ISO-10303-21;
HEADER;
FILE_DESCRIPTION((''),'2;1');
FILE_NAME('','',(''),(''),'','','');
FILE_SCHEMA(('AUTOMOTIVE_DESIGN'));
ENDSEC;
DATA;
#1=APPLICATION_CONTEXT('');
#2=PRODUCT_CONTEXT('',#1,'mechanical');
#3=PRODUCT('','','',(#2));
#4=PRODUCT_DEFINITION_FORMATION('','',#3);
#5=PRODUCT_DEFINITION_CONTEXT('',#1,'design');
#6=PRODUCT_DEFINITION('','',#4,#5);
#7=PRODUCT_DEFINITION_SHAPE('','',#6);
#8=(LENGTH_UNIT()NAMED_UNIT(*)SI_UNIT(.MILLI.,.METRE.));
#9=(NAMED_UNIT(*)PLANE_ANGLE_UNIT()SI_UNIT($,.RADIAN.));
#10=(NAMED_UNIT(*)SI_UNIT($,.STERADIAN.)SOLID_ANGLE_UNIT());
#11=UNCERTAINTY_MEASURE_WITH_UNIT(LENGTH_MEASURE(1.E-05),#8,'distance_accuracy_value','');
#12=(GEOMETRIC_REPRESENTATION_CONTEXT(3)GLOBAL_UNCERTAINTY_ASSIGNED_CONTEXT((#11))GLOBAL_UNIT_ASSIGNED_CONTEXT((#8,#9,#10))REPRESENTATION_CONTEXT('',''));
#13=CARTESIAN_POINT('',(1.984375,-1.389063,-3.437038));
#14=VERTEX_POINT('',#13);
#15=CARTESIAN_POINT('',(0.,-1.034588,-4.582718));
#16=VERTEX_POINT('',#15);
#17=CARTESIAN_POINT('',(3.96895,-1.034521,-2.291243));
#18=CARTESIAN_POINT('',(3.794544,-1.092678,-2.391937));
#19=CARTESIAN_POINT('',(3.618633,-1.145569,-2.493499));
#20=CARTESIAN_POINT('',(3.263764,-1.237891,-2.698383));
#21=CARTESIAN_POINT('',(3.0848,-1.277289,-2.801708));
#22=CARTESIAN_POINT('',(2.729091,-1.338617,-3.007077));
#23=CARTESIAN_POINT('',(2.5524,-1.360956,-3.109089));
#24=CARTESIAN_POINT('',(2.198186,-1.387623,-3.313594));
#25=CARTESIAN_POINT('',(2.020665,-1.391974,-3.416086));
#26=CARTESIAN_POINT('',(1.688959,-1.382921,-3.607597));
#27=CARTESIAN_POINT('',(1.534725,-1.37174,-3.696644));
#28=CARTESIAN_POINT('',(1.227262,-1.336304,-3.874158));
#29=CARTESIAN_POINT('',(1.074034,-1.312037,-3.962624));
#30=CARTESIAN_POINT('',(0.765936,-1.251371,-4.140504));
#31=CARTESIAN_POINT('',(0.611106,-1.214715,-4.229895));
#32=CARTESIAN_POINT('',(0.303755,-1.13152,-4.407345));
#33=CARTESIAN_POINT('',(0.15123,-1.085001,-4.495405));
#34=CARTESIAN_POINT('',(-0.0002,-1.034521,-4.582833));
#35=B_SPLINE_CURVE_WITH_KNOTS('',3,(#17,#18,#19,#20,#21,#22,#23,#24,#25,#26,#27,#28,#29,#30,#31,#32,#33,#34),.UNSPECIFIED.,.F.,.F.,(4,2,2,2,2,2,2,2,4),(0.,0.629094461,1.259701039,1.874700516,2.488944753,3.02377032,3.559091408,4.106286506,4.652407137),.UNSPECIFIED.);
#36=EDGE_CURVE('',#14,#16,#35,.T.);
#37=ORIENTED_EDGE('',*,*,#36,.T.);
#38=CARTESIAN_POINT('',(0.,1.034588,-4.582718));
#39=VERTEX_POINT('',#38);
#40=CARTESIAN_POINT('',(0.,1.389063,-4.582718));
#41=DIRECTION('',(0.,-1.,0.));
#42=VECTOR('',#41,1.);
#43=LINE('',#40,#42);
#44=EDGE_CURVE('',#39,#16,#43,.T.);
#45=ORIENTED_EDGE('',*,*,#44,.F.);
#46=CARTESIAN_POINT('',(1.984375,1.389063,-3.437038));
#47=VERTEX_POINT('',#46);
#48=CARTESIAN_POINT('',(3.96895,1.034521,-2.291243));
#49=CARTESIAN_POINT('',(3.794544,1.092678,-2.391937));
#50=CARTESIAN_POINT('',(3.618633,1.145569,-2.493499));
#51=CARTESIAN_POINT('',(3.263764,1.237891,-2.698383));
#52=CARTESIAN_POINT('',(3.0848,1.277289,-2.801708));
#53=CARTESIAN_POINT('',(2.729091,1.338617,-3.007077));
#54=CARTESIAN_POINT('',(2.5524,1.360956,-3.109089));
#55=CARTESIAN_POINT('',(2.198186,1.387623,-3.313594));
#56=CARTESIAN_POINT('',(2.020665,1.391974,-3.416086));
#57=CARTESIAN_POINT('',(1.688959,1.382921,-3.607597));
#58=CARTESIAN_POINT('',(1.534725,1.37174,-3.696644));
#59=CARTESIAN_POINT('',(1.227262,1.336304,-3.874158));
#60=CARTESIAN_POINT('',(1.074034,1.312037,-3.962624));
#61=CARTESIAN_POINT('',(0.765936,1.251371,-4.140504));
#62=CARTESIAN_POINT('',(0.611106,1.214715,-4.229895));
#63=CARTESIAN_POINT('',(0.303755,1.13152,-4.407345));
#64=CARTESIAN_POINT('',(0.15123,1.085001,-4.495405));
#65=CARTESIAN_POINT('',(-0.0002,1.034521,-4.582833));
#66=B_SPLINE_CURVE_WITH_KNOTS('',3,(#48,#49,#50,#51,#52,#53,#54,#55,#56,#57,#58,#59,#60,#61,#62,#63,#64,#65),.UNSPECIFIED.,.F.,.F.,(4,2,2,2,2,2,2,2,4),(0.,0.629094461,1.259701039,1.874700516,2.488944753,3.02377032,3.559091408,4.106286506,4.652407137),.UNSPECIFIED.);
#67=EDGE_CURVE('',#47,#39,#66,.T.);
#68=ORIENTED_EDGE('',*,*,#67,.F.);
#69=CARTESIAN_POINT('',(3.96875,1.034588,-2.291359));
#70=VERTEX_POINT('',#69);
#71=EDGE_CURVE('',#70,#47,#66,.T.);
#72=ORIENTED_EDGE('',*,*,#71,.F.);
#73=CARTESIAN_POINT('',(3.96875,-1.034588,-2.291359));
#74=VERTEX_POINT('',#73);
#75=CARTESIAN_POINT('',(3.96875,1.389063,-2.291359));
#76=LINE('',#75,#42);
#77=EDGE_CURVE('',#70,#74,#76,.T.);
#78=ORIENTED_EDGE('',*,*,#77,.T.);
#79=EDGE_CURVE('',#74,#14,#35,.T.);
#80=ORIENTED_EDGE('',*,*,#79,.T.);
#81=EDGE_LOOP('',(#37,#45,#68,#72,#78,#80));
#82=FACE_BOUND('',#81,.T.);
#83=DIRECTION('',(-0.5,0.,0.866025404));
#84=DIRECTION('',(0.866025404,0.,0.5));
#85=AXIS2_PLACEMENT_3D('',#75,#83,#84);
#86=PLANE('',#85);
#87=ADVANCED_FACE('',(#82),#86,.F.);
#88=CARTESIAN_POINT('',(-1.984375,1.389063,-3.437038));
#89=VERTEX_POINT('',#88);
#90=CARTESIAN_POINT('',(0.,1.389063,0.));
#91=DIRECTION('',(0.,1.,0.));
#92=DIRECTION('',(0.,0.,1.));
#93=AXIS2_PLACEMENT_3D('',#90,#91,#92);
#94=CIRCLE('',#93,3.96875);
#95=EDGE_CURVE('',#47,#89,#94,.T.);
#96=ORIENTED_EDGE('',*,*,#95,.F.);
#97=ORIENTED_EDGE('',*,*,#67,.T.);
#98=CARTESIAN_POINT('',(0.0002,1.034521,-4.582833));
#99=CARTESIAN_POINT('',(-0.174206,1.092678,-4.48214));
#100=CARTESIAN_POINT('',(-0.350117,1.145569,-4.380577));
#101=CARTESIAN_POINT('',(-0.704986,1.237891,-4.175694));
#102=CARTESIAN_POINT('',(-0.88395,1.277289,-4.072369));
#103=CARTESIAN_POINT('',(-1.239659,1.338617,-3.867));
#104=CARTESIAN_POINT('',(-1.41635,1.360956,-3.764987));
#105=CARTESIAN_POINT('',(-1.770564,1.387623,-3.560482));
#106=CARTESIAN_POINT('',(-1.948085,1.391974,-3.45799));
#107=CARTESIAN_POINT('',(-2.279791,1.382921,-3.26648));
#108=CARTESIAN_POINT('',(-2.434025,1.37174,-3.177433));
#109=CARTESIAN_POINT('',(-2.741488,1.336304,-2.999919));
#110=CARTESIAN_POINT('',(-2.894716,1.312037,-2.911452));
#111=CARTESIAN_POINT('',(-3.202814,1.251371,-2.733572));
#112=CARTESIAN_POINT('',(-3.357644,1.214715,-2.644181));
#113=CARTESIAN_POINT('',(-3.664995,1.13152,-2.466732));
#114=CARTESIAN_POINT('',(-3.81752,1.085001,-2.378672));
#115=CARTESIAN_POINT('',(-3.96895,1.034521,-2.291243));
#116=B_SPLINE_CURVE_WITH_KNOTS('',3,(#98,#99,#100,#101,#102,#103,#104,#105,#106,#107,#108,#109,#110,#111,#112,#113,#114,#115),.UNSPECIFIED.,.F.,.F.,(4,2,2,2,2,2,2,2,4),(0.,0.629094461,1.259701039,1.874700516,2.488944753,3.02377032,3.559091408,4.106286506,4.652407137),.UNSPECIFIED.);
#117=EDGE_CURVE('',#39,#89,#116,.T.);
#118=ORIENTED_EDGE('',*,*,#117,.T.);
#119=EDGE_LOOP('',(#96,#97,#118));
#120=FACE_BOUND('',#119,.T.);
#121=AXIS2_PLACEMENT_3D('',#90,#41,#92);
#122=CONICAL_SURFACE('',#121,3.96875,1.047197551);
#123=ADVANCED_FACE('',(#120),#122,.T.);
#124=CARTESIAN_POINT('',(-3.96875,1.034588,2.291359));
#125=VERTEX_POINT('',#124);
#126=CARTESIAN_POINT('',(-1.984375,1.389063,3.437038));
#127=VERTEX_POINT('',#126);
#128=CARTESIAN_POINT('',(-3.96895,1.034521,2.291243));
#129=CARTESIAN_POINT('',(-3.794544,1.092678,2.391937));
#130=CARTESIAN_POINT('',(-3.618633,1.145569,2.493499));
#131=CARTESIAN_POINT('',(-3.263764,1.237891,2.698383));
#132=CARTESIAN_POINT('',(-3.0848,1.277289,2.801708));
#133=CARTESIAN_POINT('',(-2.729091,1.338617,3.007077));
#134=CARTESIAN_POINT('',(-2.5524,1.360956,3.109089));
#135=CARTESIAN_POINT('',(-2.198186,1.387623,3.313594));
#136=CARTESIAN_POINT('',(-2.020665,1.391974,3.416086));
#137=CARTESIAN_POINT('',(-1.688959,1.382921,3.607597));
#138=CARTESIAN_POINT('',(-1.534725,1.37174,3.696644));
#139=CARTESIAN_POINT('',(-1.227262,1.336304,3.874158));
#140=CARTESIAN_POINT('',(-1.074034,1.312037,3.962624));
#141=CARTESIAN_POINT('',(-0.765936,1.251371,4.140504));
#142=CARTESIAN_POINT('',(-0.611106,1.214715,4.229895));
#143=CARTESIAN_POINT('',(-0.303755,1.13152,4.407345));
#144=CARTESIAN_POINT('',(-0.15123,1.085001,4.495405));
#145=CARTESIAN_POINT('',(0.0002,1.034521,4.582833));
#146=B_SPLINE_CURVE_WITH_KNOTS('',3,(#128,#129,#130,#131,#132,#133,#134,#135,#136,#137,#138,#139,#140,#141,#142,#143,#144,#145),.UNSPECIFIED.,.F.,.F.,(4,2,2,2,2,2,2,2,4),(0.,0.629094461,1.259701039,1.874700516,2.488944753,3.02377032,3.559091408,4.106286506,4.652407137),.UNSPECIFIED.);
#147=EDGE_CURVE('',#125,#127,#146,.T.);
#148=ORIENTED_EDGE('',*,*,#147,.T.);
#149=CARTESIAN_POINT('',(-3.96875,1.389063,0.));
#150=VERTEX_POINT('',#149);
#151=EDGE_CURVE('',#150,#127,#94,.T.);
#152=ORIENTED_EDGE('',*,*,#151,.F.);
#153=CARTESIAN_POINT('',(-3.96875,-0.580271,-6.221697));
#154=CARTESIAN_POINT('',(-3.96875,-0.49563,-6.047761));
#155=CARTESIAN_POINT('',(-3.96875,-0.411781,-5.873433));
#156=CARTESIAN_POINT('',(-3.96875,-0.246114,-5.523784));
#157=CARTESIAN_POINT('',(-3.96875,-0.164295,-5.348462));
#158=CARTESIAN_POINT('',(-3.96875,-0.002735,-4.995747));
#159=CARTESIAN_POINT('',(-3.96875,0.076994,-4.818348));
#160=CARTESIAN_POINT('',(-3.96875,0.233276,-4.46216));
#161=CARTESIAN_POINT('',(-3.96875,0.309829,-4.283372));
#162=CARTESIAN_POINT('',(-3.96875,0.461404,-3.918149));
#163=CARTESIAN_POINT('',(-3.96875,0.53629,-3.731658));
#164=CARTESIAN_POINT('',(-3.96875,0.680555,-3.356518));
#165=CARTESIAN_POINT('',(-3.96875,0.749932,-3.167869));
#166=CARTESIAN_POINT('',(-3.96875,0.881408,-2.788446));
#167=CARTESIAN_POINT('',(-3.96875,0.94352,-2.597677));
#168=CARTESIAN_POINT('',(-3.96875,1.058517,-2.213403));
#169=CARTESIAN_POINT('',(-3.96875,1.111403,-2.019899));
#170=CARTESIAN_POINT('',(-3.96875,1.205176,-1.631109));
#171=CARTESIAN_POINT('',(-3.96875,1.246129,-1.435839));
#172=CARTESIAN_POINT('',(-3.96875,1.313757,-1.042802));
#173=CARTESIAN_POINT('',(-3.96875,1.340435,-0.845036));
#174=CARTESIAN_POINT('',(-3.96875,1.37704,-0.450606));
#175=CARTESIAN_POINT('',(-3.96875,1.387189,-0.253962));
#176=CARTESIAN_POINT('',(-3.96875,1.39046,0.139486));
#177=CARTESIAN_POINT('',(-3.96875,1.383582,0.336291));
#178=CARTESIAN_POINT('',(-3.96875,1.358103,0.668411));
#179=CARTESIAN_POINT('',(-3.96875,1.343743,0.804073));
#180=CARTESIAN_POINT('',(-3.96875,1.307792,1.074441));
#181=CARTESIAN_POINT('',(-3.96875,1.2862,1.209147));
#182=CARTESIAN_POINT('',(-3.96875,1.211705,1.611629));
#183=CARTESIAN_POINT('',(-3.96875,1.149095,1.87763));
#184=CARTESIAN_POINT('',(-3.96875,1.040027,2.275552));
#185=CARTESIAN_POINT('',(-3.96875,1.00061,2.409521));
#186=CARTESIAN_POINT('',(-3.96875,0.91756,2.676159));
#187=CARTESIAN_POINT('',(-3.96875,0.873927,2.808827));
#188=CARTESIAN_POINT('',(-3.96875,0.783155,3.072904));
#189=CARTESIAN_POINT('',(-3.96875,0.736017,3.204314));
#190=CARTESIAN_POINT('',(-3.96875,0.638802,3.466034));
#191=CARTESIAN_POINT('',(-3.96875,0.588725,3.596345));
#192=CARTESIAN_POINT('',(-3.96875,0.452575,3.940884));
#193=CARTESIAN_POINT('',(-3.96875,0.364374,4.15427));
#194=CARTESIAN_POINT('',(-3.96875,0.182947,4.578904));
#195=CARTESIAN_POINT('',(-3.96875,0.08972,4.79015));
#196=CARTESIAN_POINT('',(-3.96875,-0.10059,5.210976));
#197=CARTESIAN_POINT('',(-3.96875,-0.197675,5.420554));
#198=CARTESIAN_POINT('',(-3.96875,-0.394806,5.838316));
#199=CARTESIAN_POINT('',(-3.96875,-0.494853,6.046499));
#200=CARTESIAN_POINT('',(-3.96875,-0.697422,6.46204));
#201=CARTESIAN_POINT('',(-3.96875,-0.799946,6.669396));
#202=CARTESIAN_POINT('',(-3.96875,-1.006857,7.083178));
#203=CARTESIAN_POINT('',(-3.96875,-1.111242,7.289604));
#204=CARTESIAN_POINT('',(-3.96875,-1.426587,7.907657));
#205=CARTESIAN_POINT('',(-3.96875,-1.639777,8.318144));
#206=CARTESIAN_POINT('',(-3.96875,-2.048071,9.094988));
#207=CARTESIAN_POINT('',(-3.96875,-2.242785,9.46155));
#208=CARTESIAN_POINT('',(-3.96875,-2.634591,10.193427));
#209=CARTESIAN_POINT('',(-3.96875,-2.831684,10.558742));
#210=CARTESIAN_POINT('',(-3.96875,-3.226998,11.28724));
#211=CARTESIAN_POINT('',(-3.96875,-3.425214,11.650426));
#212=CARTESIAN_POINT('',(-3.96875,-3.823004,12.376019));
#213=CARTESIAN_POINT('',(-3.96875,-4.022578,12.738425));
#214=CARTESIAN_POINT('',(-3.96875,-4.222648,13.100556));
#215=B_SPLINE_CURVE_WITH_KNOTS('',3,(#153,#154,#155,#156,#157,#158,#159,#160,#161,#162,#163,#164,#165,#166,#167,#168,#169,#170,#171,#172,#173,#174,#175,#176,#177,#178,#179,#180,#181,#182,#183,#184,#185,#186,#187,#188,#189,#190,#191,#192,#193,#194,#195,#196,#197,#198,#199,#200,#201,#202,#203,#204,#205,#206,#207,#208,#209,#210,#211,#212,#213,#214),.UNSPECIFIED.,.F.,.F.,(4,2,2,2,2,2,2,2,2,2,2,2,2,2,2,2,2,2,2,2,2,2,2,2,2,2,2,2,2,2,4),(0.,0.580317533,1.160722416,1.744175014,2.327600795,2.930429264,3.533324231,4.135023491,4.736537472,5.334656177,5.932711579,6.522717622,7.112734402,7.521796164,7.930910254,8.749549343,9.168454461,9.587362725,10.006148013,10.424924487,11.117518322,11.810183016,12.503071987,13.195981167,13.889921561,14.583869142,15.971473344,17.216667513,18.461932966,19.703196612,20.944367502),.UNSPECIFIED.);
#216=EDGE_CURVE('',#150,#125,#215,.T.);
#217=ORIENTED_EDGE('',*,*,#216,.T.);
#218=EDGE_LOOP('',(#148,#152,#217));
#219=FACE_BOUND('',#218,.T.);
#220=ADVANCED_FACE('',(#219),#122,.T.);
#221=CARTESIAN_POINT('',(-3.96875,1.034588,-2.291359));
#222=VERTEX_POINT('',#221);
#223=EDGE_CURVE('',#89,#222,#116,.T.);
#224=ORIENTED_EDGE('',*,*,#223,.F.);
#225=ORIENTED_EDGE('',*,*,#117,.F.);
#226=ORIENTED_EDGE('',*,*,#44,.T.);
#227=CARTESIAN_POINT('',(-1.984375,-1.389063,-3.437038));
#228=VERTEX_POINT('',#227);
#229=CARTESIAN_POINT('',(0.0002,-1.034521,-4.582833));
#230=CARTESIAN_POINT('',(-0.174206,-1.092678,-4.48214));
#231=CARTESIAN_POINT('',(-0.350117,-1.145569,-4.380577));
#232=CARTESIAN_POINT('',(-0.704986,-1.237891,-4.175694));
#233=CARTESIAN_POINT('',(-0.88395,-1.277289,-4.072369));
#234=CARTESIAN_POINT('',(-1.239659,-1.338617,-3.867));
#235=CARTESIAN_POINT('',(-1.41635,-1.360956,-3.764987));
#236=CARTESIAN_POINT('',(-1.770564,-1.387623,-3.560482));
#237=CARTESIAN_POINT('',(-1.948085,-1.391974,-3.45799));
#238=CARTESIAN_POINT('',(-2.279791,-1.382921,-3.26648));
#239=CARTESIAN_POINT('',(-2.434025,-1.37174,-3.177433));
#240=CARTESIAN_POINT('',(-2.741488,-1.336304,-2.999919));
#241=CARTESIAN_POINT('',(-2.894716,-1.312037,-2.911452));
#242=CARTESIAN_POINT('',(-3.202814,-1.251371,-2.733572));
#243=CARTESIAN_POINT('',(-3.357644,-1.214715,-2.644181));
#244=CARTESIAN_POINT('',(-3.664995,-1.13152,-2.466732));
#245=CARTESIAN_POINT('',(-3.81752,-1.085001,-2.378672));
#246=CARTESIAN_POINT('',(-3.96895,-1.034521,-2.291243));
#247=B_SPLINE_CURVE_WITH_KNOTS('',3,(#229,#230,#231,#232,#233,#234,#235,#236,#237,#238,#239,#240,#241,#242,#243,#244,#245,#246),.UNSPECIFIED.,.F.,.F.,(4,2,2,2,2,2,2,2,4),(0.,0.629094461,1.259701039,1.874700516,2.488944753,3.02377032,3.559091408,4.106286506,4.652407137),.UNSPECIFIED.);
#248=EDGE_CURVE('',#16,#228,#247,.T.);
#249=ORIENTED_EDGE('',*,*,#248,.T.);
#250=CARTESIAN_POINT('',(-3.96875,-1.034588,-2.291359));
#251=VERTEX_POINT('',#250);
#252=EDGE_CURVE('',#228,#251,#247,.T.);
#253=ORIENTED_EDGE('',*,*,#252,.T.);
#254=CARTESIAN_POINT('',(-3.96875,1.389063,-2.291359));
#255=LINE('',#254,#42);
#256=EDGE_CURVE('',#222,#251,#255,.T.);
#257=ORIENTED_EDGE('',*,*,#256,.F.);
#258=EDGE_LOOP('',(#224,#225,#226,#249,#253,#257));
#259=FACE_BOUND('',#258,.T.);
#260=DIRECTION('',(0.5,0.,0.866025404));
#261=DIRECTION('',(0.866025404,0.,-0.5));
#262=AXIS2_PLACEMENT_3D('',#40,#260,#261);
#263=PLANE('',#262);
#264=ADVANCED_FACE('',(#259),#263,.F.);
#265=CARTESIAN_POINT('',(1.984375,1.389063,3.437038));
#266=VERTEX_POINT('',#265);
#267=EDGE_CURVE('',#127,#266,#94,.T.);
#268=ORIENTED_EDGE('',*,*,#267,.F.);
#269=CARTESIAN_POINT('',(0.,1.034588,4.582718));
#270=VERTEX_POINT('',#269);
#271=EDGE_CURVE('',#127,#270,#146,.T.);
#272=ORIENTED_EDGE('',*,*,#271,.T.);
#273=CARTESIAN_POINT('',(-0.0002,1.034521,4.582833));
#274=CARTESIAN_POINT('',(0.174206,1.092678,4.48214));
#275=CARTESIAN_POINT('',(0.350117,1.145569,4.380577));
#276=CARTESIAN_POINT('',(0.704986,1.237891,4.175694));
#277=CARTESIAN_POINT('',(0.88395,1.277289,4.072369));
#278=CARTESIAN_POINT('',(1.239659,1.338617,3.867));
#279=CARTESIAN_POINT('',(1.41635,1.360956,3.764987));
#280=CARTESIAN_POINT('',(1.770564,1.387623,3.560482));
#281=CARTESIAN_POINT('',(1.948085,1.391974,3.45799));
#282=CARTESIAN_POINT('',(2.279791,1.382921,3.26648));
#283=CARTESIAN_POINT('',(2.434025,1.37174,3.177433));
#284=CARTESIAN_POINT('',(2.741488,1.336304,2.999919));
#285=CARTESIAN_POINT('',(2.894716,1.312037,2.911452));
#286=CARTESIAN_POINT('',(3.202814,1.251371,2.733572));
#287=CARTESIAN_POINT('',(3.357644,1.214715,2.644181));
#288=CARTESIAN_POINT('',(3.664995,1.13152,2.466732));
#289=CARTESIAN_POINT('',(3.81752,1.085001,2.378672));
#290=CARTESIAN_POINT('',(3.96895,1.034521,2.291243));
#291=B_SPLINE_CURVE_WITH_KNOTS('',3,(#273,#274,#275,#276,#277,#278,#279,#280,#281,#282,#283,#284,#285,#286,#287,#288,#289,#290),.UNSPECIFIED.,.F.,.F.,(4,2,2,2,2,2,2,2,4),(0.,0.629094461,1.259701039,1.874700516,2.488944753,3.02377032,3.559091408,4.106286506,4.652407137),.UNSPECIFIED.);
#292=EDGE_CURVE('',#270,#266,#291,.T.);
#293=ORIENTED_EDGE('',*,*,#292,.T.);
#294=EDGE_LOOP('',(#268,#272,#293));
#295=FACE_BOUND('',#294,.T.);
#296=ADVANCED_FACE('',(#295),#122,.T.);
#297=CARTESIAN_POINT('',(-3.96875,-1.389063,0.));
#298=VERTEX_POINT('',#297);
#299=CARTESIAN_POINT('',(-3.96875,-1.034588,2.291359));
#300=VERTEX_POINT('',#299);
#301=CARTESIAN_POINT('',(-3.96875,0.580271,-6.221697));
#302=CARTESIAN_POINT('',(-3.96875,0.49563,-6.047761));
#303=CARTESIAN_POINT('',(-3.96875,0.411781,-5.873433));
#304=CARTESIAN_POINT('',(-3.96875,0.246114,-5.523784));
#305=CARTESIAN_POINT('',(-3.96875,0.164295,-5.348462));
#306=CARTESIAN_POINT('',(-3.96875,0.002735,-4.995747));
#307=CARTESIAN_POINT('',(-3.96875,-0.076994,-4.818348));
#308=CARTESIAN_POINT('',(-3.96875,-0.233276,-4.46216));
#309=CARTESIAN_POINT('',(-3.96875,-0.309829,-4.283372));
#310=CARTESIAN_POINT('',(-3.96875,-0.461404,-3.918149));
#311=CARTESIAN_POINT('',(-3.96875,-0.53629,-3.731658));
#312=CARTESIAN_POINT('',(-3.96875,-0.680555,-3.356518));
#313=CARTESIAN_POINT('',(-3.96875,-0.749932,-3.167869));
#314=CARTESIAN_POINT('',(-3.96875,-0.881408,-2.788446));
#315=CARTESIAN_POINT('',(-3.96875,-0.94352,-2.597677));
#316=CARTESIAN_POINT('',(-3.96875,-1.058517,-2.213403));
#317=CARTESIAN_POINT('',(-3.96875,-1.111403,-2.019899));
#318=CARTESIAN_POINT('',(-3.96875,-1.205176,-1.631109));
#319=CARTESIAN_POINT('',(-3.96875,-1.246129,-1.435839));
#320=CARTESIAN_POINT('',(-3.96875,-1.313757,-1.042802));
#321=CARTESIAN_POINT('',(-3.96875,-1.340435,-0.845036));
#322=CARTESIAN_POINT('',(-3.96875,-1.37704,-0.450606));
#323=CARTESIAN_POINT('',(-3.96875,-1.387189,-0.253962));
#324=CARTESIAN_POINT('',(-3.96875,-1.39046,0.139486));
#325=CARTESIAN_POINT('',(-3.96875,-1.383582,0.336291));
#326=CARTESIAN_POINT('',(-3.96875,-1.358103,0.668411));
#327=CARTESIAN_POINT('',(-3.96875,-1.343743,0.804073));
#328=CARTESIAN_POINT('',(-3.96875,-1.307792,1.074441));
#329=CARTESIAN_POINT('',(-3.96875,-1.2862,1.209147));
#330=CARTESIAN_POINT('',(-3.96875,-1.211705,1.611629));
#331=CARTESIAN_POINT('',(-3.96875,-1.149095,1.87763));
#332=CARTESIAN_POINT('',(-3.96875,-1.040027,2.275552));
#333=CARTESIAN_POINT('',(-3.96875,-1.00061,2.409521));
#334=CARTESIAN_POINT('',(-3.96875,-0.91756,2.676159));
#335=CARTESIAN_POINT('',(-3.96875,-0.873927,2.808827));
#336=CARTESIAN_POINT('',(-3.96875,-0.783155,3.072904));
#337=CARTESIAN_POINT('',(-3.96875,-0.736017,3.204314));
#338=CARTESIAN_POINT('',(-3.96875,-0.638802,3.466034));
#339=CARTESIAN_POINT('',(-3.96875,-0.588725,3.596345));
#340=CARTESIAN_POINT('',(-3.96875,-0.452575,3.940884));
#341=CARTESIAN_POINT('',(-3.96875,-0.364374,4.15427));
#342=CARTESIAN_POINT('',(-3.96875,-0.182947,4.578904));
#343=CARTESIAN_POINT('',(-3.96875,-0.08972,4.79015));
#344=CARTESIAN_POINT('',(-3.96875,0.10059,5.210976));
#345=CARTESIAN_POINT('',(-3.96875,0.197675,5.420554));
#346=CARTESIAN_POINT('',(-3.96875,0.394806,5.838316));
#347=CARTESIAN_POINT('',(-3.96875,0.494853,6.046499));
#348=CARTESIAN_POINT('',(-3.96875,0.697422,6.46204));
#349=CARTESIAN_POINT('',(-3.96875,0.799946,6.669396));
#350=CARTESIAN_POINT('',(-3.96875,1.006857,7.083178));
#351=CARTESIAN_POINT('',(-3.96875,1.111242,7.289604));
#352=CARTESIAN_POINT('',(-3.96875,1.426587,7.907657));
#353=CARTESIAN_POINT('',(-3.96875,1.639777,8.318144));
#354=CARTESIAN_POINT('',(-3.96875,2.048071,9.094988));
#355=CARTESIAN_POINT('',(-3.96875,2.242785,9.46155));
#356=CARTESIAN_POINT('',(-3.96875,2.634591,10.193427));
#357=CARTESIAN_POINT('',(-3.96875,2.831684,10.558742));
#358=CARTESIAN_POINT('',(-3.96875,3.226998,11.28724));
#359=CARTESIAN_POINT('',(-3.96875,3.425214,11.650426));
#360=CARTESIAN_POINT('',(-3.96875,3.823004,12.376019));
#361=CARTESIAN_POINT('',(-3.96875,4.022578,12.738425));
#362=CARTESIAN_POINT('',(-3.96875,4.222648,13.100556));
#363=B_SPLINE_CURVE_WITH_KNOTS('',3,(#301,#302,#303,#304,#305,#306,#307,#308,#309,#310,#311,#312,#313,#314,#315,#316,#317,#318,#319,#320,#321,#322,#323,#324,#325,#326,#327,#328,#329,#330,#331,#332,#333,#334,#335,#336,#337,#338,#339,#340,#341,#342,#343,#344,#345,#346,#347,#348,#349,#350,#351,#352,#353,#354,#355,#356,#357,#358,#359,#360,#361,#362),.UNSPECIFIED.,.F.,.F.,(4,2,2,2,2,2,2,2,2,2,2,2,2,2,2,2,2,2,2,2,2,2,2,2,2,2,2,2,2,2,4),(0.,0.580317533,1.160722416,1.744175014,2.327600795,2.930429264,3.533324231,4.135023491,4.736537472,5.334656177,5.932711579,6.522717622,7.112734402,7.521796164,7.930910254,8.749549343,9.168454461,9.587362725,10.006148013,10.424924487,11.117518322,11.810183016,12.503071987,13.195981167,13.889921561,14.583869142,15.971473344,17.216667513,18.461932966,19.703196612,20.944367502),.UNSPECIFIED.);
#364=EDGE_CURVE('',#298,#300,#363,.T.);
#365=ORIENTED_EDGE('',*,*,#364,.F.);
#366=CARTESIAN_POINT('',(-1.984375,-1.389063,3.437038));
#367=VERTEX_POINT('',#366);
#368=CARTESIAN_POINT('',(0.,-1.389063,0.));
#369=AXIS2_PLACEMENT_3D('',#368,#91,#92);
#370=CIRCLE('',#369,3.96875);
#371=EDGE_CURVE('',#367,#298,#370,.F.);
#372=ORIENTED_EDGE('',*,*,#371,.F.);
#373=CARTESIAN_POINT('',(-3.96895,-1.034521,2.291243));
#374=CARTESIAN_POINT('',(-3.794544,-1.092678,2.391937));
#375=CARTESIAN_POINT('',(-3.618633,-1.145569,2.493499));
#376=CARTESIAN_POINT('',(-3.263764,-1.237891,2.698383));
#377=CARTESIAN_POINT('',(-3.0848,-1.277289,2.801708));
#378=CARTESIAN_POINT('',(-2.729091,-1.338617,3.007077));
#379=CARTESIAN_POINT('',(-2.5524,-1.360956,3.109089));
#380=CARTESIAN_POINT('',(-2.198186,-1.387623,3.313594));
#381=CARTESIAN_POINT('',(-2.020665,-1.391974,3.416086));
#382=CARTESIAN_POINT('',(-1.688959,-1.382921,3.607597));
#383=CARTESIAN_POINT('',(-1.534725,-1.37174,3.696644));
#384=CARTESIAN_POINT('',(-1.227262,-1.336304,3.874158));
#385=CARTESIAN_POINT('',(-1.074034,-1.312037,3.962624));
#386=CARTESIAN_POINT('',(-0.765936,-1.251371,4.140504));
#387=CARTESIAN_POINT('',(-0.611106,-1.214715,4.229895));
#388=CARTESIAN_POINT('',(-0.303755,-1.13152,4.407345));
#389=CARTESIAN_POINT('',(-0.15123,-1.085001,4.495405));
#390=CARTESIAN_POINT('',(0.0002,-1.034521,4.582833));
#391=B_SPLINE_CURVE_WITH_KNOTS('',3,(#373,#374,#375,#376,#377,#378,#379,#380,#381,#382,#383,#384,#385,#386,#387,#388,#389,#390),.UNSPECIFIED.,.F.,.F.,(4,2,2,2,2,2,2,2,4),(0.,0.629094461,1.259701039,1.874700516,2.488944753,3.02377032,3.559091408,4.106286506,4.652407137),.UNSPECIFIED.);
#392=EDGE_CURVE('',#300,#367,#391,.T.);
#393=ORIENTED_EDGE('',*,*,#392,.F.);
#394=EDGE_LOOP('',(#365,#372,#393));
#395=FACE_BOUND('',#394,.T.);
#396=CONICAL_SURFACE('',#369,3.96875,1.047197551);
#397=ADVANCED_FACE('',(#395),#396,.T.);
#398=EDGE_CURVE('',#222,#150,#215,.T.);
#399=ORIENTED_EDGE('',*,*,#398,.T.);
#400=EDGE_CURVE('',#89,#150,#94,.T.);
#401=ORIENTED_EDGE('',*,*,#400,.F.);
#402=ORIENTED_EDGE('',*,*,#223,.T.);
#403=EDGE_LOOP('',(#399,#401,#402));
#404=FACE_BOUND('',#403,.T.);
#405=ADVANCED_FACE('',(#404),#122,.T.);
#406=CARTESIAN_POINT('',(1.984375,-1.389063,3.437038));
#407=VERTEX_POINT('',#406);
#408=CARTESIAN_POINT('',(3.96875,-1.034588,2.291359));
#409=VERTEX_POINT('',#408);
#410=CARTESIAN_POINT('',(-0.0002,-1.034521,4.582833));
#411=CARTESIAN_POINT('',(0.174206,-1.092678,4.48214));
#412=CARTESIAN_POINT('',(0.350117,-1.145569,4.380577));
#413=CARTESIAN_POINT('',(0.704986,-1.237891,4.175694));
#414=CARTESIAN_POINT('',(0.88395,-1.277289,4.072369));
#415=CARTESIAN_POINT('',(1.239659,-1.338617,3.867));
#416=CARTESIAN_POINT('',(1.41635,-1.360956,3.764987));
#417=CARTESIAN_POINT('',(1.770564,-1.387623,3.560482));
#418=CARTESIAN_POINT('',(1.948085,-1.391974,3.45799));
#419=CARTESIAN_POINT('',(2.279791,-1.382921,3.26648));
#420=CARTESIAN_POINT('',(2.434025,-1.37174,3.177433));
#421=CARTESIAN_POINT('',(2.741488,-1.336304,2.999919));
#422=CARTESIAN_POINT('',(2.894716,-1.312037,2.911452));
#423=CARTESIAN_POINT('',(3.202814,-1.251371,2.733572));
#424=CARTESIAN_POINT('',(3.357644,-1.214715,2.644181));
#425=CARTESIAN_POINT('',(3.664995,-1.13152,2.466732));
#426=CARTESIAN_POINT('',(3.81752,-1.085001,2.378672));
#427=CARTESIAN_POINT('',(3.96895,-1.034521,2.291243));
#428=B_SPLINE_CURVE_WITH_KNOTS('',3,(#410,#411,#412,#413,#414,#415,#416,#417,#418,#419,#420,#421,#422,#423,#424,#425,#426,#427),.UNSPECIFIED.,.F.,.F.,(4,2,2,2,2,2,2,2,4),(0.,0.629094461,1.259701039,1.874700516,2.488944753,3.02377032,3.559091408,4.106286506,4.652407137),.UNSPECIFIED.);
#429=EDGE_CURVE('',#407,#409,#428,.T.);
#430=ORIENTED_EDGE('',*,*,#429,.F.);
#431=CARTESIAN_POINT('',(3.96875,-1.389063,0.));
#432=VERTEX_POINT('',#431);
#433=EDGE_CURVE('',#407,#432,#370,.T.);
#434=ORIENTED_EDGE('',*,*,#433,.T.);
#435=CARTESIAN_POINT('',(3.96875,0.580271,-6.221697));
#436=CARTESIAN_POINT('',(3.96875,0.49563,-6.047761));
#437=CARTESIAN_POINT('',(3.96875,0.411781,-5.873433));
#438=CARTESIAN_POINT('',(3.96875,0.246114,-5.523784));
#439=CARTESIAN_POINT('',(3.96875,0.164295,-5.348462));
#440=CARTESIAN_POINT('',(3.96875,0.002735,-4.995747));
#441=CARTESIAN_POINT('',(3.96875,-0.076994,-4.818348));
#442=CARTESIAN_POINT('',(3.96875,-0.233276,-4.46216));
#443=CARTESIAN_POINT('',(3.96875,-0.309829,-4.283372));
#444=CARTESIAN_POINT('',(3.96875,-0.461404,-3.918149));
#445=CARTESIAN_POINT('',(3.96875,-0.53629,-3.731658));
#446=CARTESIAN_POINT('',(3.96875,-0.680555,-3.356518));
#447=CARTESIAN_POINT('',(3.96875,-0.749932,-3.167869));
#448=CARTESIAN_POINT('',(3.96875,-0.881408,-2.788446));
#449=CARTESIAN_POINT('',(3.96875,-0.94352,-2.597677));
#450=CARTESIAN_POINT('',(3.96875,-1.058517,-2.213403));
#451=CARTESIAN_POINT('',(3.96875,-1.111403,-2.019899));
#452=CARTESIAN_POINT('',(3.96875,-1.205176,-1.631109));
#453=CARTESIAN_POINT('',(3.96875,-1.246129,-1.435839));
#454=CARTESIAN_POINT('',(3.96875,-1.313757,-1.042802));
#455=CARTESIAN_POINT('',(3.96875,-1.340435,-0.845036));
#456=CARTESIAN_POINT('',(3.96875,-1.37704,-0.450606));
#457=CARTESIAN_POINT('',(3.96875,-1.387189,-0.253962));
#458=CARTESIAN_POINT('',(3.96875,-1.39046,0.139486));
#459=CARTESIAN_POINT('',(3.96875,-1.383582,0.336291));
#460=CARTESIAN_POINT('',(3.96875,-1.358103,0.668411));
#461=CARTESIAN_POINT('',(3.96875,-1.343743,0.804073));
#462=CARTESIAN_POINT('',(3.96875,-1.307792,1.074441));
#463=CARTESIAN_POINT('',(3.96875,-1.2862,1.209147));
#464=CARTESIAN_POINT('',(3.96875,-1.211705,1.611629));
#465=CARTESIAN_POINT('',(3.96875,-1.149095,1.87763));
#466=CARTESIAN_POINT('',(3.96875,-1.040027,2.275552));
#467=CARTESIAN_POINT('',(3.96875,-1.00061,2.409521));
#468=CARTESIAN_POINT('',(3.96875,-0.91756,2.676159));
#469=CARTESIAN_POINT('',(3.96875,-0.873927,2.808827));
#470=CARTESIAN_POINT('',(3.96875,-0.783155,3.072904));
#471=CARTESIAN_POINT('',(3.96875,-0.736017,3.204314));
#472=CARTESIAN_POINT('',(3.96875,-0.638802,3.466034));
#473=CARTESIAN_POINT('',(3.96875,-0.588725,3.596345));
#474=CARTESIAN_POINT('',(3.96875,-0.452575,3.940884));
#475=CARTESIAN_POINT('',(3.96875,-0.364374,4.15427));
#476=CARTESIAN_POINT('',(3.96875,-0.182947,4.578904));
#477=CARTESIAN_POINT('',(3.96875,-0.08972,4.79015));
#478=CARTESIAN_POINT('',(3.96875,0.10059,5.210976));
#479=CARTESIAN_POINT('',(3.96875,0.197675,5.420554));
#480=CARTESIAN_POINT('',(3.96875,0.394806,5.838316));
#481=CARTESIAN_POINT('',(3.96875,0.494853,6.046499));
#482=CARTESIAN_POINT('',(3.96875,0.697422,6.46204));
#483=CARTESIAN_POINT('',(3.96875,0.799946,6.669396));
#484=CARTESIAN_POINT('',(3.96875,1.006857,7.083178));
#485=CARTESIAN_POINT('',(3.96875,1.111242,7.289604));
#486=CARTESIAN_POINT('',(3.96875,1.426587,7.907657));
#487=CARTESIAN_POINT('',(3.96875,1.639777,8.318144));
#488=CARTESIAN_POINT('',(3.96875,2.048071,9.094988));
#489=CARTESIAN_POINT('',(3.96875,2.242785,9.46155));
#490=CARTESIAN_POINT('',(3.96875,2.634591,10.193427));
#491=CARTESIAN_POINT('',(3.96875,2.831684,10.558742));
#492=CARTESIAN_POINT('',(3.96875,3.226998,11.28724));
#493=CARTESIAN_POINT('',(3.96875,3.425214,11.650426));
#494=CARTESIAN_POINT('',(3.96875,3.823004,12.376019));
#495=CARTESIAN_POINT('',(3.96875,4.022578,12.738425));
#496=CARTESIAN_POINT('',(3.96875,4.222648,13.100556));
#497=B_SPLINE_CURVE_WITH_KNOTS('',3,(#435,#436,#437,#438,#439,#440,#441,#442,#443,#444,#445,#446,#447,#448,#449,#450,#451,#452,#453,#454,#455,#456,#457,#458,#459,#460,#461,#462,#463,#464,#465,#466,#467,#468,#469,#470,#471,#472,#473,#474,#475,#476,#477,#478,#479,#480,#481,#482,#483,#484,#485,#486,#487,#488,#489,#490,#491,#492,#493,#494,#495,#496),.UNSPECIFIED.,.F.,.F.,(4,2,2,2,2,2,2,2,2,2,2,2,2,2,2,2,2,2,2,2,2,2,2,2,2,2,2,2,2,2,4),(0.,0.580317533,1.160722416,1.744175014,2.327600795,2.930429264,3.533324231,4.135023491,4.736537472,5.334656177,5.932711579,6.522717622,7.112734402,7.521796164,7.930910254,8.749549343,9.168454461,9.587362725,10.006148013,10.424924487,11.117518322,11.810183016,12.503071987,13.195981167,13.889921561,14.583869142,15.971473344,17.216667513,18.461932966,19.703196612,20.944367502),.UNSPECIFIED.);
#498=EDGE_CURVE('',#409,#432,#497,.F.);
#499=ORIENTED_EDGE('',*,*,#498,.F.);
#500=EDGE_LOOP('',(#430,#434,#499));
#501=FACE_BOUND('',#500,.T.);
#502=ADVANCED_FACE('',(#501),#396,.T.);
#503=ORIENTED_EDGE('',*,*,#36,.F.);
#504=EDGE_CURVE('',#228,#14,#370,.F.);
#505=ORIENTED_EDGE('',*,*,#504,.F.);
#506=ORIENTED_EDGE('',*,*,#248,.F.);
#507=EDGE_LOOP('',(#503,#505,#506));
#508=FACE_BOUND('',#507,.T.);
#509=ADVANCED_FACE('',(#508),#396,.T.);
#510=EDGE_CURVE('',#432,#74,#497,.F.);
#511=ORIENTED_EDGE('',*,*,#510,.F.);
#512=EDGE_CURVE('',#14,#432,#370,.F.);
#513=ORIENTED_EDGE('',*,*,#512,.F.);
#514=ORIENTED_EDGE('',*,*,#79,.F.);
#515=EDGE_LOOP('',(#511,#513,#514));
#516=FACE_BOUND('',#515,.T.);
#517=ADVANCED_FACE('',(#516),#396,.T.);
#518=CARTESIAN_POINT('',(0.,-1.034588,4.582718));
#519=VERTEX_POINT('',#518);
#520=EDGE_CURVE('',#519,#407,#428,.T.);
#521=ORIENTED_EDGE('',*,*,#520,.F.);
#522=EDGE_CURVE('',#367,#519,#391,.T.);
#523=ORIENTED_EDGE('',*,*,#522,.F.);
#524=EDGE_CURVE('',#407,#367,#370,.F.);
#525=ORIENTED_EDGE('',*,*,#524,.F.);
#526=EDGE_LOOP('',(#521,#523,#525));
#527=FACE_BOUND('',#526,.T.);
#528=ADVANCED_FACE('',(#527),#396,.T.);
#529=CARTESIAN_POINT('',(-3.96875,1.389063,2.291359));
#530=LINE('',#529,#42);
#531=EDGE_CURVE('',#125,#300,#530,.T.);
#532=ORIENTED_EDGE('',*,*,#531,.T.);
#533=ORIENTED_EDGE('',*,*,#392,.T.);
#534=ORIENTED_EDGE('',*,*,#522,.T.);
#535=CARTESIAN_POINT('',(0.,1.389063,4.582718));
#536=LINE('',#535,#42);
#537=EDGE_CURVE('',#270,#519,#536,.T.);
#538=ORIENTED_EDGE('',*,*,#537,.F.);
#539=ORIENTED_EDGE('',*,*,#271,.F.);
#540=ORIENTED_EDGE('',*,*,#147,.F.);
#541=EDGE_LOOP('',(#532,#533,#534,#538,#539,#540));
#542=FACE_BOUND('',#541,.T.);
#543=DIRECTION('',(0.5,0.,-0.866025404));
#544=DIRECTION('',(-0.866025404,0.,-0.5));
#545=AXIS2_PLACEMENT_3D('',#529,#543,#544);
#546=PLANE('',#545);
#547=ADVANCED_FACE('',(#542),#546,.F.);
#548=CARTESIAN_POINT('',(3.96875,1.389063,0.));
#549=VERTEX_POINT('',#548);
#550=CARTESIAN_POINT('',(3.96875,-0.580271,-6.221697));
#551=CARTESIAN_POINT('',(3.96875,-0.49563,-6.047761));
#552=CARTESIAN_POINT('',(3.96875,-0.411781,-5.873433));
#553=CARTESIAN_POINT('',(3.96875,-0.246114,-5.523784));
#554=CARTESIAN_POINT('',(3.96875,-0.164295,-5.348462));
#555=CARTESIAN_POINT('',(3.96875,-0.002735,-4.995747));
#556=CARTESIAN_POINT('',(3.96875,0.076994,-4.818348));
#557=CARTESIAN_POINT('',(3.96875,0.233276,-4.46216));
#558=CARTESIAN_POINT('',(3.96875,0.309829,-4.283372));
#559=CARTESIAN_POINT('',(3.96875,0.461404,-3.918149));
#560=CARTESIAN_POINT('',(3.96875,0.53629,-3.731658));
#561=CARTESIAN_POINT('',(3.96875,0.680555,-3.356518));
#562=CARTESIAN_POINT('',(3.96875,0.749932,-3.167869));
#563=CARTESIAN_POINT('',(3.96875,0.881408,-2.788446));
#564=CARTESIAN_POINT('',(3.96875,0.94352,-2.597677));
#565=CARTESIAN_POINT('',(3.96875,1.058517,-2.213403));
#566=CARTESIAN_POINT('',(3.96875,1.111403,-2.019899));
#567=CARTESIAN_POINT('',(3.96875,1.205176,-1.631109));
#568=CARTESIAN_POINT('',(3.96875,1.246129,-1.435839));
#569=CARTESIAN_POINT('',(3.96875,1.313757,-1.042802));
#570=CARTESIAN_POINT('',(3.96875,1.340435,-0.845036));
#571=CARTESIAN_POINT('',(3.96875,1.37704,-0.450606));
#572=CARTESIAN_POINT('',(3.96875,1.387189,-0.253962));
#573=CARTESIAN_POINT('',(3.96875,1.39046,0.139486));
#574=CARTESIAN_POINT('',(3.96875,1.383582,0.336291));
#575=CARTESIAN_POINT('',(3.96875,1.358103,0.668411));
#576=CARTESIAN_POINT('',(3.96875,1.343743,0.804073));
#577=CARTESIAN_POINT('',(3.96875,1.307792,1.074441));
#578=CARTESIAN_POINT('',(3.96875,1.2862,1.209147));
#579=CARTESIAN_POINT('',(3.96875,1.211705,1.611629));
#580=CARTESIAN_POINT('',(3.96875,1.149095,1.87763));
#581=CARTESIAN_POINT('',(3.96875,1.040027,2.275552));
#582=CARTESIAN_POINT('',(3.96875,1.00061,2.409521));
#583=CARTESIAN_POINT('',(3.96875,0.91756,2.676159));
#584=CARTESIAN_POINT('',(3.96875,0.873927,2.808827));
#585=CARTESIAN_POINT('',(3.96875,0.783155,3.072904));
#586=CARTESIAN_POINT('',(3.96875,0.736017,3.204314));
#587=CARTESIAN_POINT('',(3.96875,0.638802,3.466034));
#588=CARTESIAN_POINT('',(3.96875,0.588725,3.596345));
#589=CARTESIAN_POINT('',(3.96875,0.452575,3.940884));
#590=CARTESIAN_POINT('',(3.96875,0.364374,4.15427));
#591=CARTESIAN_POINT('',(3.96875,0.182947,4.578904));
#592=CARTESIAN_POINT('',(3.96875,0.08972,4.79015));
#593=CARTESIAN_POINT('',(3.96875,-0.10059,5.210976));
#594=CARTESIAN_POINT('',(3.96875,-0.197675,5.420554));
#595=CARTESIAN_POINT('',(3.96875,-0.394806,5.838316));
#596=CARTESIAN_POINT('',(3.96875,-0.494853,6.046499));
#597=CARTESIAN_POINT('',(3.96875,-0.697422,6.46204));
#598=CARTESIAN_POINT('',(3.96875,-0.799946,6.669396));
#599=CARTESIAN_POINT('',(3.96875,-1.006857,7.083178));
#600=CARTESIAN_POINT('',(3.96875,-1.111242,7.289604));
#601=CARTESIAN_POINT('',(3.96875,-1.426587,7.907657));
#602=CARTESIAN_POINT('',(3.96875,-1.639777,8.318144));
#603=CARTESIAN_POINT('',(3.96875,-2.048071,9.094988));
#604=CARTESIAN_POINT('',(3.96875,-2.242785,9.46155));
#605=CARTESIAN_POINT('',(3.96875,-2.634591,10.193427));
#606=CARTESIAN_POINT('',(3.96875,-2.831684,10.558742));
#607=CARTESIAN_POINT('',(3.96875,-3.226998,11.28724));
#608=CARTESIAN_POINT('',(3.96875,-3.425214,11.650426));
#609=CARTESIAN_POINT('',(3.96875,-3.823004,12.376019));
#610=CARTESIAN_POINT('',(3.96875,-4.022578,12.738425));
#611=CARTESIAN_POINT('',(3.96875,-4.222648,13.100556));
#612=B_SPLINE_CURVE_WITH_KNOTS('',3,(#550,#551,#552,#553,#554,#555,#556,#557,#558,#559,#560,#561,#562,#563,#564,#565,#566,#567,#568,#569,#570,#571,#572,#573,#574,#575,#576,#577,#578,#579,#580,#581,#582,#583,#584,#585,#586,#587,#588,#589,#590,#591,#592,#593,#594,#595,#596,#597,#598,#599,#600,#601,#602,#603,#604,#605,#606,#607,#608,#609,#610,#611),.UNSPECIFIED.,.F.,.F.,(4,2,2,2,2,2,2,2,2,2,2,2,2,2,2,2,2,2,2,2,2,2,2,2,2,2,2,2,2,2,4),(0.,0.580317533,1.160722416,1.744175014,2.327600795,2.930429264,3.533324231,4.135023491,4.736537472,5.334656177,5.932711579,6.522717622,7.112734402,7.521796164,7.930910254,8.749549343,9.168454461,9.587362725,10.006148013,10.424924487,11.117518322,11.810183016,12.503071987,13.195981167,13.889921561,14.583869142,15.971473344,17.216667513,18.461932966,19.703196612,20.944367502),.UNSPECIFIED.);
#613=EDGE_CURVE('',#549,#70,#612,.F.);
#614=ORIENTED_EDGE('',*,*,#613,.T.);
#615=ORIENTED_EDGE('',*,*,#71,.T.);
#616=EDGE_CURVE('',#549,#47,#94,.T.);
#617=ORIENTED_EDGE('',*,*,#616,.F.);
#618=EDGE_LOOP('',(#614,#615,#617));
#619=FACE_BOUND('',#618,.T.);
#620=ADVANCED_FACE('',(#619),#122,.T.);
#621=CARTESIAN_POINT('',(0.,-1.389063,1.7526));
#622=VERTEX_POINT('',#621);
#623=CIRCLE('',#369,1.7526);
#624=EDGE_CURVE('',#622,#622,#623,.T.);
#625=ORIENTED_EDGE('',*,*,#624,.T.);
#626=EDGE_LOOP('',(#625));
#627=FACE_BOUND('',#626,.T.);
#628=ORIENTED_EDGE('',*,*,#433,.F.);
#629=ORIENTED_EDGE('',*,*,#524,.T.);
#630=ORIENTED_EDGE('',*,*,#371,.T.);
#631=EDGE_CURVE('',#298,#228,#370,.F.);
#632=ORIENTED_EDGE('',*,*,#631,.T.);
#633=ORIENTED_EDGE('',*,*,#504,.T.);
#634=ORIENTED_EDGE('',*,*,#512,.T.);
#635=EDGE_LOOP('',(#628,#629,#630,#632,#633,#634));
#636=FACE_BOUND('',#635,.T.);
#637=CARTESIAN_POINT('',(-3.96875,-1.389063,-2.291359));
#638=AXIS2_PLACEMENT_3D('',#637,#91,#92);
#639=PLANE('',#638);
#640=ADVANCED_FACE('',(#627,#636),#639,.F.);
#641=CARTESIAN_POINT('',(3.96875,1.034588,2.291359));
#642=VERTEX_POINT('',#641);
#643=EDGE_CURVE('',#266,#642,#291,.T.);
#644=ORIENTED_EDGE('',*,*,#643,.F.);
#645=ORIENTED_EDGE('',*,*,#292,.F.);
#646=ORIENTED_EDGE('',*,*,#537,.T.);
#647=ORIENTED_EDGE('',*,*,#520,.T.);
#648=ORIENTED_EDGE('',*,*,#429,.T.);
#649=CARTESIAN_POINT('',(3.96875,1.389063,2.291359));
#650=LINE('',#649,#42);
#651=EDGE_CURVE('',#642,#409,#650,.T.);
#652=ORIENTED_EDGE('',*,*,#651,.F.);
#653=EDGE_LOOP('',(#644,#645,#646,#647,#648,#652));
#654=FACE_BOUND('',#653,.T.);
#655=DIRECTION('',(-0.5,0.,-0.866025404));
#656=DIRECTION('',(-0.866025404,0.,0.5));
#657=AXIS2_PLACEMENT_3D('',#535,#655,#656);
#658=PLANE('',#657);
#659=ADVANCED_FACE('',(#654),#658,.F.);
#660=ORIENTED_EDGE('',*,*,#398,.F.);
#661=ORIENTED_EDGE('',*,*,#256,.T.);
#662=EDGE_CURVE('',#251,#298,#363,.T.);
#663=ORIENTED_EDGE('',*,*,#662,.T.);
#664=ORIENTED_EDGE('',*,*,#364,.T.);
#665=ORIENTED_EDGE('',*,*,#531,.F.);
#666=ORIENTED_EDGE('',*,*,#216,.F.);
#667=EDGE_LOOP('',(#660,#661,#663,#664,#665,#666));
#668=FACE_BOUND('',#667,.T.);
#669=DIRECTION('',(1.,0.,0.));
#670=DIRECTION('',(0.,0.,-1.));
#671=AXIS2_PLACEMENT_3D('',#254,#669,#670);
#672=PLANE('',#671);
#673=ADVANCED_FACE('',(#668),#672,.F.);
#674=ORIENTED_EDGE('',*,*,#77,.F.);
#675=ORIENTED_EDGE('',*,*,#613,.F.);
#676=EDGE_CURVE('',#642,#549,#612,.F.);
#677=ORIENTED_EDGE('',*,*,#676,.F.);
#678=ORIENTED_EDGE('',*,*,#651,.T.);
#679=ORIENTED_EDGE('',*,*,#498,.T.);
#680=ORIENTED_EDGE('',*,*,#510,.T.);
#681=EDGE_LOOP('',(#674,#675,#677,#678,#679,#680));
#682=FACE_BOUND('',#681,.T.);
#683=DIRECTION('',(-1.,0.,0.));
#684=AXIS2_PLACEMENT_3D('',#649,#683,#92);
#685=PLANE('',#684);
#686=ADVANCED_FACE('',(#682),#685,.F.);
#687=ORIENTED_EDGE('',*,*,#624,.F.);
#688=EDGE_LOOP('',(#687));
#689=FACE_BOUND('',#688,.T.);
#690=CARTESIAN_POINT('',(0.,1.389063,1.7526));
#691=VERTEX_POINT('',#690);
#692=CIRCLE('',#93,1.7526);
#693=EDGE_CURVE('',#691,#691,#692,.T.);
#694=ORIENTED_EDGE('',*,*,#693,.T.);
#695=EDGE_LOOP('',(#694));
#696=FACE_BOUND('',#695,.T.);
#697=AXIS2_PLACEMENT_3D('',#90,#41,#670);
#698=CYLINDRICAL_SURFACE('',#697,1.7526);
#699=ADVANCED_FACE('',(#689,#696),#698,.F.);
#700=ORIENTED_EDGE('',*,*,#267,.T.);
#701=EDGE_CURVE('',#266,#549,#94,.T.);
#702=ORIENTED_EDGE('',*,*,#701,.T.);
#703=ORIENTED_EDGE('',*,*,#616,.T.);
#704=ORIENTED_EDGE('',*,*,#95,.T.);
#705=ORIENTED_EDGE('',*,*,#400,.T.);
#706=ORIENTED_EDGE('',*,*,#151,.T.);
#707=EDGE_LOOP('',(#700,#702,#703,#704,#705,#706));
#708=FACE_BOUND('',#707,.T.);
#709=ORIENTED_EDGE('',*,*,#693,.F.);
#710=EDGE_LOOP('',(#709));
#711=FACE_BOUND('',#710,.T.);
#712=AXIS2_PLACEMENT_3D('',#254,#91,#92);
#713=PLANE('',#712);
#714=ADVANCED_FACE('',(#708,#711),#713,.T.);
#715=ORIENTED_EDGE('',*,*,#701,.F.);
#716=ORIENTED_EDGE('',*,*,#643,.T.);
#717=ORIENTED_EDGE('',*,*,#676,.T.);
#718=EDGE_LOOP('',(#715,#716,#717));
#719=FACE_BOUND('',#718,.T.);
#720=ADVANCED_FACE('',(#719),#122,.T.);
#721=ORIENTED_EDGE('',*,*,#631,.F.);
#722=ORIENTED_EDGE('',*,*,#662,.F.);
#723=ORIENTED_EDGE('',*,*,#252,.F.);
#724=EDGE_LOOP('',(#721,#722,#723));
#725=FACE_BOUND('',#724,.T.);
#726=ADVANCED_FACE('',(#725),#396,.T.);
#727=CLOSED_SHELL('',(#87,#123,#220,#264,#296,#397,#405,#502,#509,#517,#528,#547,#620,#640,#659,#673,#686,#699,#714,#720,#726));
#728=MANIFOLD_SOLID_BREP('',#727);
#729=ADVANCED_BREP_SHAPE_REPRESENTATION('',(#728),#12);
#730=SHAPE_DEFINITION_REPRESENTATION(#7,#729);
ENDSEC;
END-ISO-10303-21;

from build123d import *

# Parameters (mm, degrees)
SKETCH1_R               = 1.7526
BOSS_EXTRUDE1_DEPTH     = 1.3890625
SKETCH5_OUTSIDE_W       = 38.99
SKETCH5_OUTSIDE_H       = 40.218
SKETCH5_OUTSIDE_R       = 3.96875
CUT_EXTRUDE2_DEPTH      = 7.668602339
CUT_EXTRUDE2_DRAFT      = -60
MIRROR1_COPY_1_SKETCH_W = 38.99
MIRROR1_COPY_1_SKETCH_H = 40.218
MIRROR1_COPY_1_SKETCH_R = 3.96875
MIRROR1_COPY_1_DEPTH    = 7.668602339
MIRROR1_COPY_1_DRAFT    = -60


with BuildPart() as part:
    # Sketch1 → Boss-Extrude1 (new, symmetric)
    with BuildSketch(Plane(origin=(0, 0, 0), x_dir=(1, 0, 0), z_dir=(0, 1, 0))):
        Polygon((-3.96875, 2.291358881), (-3.96875, -2.291358881), (0, -4.582717762), (3.96875, -2.291358881), (3.96875, 2.291358881), (0, 4.582717762), align=None)
        with Locations(Location((0, 0, 0), (0, 0, 270))):
            Circle(SKETCH1_R, mode=Mode.SUBTRACT)
    extrude(amount=BOSS_EXTRUDE1_DEPTH, both=True)


with BuildPart() as cut_extrude2_tool:
    # Sketch5 outside → Cut-Extrude2 (with draft: the straight prism first)
    with BuildSketch(Plane(origin=(0, 1.3890625, 0), x_dir=(1, 0, 0), z_dir=(0, 1, 0))):
        Rectangle(SKETCH5_OUTSIDE_W, SKETCH5_OUTSIDE_H)
        Circle(SKETCH5_OUTSIDE_R, mode=Mode.SUBTRACT)
    extrude(amount=-CUT_EXTRUDE2_DEPTH)
    # Cut-Extrude2: the draft: its side faces are tilted about the plane it starts from
    cut_extrude2_sides = [cut_extrude2_tool.faces().sort_by_distance(p)[0] for p in [
        (0, -2.44523867, 20.109),
        (19.495, -2.44523867, 0),
        (0, -2.44523867, -20.109),
        (-19.495, -2.44523867, 0),
        (-3.96875, -2.44523867, 0),
    ]]
    draft(cut_extrude2_sides, Plane(origin=(0, 1.3890625, 0), x_dir=(1, 0, 0), z_dir=(0, 1, 0)), CUT_EXTRUDE2_DRAFT)


with BuildPart() as part_1:
    add(part.part)

    # Cut-Extrude2: cut by cut_extrude2_tool
    add(cut_extrude2_tool.part, mode=Mode.SUBTRACT)


with BuildPart() as mirror1_copy_1_tool:
    # Mirror1 copy 1 sketch → Mirror1 copy 1 (with draft: the straight prism first)
    with BuildSketch(Plane.XZ.offset(1.3890625)):
        Rectangle(MIRROR1_COPY_1_SKETCH_W, MIRROR1_COPY_1_SKETCH_H)
        Circle(MIRROR1_COPY_1_SKETCH_R, mode=Mode.SUBTRACT)
    extrude(amount=-MIRROR1_COPY_1_DEPTH)
    # Mirror1 copy 1: the draft: its side faces are tilted about the plane it starts from
    mirror1_copy_1_sides = [mirror1_copy_1_tool.faces().sort_by_distance(p)[0] for p in [
        (0, 2.44523867, 20.109),
        (19.495, 2.44523867, 0),
        (0, 2.44523867, -20.109),
        (-19.495, 2.44523867, 0),
        (-3.96875, 2.44523867, 0),
    ]]
    draft(mirror1_copy_1_sides, Plane.XZ.offset(1.3890625), MIRROR1_COPY_1_DRAFT)


with BuildPart() as part_2:
    add(part_1.part)

    # Mirror1 copy 1: cut by mirror1_copy_1_tool
    add(mirror1_copy_1_tool.part, mode=Mode.SUBTRACT)


solid = part_2.part
